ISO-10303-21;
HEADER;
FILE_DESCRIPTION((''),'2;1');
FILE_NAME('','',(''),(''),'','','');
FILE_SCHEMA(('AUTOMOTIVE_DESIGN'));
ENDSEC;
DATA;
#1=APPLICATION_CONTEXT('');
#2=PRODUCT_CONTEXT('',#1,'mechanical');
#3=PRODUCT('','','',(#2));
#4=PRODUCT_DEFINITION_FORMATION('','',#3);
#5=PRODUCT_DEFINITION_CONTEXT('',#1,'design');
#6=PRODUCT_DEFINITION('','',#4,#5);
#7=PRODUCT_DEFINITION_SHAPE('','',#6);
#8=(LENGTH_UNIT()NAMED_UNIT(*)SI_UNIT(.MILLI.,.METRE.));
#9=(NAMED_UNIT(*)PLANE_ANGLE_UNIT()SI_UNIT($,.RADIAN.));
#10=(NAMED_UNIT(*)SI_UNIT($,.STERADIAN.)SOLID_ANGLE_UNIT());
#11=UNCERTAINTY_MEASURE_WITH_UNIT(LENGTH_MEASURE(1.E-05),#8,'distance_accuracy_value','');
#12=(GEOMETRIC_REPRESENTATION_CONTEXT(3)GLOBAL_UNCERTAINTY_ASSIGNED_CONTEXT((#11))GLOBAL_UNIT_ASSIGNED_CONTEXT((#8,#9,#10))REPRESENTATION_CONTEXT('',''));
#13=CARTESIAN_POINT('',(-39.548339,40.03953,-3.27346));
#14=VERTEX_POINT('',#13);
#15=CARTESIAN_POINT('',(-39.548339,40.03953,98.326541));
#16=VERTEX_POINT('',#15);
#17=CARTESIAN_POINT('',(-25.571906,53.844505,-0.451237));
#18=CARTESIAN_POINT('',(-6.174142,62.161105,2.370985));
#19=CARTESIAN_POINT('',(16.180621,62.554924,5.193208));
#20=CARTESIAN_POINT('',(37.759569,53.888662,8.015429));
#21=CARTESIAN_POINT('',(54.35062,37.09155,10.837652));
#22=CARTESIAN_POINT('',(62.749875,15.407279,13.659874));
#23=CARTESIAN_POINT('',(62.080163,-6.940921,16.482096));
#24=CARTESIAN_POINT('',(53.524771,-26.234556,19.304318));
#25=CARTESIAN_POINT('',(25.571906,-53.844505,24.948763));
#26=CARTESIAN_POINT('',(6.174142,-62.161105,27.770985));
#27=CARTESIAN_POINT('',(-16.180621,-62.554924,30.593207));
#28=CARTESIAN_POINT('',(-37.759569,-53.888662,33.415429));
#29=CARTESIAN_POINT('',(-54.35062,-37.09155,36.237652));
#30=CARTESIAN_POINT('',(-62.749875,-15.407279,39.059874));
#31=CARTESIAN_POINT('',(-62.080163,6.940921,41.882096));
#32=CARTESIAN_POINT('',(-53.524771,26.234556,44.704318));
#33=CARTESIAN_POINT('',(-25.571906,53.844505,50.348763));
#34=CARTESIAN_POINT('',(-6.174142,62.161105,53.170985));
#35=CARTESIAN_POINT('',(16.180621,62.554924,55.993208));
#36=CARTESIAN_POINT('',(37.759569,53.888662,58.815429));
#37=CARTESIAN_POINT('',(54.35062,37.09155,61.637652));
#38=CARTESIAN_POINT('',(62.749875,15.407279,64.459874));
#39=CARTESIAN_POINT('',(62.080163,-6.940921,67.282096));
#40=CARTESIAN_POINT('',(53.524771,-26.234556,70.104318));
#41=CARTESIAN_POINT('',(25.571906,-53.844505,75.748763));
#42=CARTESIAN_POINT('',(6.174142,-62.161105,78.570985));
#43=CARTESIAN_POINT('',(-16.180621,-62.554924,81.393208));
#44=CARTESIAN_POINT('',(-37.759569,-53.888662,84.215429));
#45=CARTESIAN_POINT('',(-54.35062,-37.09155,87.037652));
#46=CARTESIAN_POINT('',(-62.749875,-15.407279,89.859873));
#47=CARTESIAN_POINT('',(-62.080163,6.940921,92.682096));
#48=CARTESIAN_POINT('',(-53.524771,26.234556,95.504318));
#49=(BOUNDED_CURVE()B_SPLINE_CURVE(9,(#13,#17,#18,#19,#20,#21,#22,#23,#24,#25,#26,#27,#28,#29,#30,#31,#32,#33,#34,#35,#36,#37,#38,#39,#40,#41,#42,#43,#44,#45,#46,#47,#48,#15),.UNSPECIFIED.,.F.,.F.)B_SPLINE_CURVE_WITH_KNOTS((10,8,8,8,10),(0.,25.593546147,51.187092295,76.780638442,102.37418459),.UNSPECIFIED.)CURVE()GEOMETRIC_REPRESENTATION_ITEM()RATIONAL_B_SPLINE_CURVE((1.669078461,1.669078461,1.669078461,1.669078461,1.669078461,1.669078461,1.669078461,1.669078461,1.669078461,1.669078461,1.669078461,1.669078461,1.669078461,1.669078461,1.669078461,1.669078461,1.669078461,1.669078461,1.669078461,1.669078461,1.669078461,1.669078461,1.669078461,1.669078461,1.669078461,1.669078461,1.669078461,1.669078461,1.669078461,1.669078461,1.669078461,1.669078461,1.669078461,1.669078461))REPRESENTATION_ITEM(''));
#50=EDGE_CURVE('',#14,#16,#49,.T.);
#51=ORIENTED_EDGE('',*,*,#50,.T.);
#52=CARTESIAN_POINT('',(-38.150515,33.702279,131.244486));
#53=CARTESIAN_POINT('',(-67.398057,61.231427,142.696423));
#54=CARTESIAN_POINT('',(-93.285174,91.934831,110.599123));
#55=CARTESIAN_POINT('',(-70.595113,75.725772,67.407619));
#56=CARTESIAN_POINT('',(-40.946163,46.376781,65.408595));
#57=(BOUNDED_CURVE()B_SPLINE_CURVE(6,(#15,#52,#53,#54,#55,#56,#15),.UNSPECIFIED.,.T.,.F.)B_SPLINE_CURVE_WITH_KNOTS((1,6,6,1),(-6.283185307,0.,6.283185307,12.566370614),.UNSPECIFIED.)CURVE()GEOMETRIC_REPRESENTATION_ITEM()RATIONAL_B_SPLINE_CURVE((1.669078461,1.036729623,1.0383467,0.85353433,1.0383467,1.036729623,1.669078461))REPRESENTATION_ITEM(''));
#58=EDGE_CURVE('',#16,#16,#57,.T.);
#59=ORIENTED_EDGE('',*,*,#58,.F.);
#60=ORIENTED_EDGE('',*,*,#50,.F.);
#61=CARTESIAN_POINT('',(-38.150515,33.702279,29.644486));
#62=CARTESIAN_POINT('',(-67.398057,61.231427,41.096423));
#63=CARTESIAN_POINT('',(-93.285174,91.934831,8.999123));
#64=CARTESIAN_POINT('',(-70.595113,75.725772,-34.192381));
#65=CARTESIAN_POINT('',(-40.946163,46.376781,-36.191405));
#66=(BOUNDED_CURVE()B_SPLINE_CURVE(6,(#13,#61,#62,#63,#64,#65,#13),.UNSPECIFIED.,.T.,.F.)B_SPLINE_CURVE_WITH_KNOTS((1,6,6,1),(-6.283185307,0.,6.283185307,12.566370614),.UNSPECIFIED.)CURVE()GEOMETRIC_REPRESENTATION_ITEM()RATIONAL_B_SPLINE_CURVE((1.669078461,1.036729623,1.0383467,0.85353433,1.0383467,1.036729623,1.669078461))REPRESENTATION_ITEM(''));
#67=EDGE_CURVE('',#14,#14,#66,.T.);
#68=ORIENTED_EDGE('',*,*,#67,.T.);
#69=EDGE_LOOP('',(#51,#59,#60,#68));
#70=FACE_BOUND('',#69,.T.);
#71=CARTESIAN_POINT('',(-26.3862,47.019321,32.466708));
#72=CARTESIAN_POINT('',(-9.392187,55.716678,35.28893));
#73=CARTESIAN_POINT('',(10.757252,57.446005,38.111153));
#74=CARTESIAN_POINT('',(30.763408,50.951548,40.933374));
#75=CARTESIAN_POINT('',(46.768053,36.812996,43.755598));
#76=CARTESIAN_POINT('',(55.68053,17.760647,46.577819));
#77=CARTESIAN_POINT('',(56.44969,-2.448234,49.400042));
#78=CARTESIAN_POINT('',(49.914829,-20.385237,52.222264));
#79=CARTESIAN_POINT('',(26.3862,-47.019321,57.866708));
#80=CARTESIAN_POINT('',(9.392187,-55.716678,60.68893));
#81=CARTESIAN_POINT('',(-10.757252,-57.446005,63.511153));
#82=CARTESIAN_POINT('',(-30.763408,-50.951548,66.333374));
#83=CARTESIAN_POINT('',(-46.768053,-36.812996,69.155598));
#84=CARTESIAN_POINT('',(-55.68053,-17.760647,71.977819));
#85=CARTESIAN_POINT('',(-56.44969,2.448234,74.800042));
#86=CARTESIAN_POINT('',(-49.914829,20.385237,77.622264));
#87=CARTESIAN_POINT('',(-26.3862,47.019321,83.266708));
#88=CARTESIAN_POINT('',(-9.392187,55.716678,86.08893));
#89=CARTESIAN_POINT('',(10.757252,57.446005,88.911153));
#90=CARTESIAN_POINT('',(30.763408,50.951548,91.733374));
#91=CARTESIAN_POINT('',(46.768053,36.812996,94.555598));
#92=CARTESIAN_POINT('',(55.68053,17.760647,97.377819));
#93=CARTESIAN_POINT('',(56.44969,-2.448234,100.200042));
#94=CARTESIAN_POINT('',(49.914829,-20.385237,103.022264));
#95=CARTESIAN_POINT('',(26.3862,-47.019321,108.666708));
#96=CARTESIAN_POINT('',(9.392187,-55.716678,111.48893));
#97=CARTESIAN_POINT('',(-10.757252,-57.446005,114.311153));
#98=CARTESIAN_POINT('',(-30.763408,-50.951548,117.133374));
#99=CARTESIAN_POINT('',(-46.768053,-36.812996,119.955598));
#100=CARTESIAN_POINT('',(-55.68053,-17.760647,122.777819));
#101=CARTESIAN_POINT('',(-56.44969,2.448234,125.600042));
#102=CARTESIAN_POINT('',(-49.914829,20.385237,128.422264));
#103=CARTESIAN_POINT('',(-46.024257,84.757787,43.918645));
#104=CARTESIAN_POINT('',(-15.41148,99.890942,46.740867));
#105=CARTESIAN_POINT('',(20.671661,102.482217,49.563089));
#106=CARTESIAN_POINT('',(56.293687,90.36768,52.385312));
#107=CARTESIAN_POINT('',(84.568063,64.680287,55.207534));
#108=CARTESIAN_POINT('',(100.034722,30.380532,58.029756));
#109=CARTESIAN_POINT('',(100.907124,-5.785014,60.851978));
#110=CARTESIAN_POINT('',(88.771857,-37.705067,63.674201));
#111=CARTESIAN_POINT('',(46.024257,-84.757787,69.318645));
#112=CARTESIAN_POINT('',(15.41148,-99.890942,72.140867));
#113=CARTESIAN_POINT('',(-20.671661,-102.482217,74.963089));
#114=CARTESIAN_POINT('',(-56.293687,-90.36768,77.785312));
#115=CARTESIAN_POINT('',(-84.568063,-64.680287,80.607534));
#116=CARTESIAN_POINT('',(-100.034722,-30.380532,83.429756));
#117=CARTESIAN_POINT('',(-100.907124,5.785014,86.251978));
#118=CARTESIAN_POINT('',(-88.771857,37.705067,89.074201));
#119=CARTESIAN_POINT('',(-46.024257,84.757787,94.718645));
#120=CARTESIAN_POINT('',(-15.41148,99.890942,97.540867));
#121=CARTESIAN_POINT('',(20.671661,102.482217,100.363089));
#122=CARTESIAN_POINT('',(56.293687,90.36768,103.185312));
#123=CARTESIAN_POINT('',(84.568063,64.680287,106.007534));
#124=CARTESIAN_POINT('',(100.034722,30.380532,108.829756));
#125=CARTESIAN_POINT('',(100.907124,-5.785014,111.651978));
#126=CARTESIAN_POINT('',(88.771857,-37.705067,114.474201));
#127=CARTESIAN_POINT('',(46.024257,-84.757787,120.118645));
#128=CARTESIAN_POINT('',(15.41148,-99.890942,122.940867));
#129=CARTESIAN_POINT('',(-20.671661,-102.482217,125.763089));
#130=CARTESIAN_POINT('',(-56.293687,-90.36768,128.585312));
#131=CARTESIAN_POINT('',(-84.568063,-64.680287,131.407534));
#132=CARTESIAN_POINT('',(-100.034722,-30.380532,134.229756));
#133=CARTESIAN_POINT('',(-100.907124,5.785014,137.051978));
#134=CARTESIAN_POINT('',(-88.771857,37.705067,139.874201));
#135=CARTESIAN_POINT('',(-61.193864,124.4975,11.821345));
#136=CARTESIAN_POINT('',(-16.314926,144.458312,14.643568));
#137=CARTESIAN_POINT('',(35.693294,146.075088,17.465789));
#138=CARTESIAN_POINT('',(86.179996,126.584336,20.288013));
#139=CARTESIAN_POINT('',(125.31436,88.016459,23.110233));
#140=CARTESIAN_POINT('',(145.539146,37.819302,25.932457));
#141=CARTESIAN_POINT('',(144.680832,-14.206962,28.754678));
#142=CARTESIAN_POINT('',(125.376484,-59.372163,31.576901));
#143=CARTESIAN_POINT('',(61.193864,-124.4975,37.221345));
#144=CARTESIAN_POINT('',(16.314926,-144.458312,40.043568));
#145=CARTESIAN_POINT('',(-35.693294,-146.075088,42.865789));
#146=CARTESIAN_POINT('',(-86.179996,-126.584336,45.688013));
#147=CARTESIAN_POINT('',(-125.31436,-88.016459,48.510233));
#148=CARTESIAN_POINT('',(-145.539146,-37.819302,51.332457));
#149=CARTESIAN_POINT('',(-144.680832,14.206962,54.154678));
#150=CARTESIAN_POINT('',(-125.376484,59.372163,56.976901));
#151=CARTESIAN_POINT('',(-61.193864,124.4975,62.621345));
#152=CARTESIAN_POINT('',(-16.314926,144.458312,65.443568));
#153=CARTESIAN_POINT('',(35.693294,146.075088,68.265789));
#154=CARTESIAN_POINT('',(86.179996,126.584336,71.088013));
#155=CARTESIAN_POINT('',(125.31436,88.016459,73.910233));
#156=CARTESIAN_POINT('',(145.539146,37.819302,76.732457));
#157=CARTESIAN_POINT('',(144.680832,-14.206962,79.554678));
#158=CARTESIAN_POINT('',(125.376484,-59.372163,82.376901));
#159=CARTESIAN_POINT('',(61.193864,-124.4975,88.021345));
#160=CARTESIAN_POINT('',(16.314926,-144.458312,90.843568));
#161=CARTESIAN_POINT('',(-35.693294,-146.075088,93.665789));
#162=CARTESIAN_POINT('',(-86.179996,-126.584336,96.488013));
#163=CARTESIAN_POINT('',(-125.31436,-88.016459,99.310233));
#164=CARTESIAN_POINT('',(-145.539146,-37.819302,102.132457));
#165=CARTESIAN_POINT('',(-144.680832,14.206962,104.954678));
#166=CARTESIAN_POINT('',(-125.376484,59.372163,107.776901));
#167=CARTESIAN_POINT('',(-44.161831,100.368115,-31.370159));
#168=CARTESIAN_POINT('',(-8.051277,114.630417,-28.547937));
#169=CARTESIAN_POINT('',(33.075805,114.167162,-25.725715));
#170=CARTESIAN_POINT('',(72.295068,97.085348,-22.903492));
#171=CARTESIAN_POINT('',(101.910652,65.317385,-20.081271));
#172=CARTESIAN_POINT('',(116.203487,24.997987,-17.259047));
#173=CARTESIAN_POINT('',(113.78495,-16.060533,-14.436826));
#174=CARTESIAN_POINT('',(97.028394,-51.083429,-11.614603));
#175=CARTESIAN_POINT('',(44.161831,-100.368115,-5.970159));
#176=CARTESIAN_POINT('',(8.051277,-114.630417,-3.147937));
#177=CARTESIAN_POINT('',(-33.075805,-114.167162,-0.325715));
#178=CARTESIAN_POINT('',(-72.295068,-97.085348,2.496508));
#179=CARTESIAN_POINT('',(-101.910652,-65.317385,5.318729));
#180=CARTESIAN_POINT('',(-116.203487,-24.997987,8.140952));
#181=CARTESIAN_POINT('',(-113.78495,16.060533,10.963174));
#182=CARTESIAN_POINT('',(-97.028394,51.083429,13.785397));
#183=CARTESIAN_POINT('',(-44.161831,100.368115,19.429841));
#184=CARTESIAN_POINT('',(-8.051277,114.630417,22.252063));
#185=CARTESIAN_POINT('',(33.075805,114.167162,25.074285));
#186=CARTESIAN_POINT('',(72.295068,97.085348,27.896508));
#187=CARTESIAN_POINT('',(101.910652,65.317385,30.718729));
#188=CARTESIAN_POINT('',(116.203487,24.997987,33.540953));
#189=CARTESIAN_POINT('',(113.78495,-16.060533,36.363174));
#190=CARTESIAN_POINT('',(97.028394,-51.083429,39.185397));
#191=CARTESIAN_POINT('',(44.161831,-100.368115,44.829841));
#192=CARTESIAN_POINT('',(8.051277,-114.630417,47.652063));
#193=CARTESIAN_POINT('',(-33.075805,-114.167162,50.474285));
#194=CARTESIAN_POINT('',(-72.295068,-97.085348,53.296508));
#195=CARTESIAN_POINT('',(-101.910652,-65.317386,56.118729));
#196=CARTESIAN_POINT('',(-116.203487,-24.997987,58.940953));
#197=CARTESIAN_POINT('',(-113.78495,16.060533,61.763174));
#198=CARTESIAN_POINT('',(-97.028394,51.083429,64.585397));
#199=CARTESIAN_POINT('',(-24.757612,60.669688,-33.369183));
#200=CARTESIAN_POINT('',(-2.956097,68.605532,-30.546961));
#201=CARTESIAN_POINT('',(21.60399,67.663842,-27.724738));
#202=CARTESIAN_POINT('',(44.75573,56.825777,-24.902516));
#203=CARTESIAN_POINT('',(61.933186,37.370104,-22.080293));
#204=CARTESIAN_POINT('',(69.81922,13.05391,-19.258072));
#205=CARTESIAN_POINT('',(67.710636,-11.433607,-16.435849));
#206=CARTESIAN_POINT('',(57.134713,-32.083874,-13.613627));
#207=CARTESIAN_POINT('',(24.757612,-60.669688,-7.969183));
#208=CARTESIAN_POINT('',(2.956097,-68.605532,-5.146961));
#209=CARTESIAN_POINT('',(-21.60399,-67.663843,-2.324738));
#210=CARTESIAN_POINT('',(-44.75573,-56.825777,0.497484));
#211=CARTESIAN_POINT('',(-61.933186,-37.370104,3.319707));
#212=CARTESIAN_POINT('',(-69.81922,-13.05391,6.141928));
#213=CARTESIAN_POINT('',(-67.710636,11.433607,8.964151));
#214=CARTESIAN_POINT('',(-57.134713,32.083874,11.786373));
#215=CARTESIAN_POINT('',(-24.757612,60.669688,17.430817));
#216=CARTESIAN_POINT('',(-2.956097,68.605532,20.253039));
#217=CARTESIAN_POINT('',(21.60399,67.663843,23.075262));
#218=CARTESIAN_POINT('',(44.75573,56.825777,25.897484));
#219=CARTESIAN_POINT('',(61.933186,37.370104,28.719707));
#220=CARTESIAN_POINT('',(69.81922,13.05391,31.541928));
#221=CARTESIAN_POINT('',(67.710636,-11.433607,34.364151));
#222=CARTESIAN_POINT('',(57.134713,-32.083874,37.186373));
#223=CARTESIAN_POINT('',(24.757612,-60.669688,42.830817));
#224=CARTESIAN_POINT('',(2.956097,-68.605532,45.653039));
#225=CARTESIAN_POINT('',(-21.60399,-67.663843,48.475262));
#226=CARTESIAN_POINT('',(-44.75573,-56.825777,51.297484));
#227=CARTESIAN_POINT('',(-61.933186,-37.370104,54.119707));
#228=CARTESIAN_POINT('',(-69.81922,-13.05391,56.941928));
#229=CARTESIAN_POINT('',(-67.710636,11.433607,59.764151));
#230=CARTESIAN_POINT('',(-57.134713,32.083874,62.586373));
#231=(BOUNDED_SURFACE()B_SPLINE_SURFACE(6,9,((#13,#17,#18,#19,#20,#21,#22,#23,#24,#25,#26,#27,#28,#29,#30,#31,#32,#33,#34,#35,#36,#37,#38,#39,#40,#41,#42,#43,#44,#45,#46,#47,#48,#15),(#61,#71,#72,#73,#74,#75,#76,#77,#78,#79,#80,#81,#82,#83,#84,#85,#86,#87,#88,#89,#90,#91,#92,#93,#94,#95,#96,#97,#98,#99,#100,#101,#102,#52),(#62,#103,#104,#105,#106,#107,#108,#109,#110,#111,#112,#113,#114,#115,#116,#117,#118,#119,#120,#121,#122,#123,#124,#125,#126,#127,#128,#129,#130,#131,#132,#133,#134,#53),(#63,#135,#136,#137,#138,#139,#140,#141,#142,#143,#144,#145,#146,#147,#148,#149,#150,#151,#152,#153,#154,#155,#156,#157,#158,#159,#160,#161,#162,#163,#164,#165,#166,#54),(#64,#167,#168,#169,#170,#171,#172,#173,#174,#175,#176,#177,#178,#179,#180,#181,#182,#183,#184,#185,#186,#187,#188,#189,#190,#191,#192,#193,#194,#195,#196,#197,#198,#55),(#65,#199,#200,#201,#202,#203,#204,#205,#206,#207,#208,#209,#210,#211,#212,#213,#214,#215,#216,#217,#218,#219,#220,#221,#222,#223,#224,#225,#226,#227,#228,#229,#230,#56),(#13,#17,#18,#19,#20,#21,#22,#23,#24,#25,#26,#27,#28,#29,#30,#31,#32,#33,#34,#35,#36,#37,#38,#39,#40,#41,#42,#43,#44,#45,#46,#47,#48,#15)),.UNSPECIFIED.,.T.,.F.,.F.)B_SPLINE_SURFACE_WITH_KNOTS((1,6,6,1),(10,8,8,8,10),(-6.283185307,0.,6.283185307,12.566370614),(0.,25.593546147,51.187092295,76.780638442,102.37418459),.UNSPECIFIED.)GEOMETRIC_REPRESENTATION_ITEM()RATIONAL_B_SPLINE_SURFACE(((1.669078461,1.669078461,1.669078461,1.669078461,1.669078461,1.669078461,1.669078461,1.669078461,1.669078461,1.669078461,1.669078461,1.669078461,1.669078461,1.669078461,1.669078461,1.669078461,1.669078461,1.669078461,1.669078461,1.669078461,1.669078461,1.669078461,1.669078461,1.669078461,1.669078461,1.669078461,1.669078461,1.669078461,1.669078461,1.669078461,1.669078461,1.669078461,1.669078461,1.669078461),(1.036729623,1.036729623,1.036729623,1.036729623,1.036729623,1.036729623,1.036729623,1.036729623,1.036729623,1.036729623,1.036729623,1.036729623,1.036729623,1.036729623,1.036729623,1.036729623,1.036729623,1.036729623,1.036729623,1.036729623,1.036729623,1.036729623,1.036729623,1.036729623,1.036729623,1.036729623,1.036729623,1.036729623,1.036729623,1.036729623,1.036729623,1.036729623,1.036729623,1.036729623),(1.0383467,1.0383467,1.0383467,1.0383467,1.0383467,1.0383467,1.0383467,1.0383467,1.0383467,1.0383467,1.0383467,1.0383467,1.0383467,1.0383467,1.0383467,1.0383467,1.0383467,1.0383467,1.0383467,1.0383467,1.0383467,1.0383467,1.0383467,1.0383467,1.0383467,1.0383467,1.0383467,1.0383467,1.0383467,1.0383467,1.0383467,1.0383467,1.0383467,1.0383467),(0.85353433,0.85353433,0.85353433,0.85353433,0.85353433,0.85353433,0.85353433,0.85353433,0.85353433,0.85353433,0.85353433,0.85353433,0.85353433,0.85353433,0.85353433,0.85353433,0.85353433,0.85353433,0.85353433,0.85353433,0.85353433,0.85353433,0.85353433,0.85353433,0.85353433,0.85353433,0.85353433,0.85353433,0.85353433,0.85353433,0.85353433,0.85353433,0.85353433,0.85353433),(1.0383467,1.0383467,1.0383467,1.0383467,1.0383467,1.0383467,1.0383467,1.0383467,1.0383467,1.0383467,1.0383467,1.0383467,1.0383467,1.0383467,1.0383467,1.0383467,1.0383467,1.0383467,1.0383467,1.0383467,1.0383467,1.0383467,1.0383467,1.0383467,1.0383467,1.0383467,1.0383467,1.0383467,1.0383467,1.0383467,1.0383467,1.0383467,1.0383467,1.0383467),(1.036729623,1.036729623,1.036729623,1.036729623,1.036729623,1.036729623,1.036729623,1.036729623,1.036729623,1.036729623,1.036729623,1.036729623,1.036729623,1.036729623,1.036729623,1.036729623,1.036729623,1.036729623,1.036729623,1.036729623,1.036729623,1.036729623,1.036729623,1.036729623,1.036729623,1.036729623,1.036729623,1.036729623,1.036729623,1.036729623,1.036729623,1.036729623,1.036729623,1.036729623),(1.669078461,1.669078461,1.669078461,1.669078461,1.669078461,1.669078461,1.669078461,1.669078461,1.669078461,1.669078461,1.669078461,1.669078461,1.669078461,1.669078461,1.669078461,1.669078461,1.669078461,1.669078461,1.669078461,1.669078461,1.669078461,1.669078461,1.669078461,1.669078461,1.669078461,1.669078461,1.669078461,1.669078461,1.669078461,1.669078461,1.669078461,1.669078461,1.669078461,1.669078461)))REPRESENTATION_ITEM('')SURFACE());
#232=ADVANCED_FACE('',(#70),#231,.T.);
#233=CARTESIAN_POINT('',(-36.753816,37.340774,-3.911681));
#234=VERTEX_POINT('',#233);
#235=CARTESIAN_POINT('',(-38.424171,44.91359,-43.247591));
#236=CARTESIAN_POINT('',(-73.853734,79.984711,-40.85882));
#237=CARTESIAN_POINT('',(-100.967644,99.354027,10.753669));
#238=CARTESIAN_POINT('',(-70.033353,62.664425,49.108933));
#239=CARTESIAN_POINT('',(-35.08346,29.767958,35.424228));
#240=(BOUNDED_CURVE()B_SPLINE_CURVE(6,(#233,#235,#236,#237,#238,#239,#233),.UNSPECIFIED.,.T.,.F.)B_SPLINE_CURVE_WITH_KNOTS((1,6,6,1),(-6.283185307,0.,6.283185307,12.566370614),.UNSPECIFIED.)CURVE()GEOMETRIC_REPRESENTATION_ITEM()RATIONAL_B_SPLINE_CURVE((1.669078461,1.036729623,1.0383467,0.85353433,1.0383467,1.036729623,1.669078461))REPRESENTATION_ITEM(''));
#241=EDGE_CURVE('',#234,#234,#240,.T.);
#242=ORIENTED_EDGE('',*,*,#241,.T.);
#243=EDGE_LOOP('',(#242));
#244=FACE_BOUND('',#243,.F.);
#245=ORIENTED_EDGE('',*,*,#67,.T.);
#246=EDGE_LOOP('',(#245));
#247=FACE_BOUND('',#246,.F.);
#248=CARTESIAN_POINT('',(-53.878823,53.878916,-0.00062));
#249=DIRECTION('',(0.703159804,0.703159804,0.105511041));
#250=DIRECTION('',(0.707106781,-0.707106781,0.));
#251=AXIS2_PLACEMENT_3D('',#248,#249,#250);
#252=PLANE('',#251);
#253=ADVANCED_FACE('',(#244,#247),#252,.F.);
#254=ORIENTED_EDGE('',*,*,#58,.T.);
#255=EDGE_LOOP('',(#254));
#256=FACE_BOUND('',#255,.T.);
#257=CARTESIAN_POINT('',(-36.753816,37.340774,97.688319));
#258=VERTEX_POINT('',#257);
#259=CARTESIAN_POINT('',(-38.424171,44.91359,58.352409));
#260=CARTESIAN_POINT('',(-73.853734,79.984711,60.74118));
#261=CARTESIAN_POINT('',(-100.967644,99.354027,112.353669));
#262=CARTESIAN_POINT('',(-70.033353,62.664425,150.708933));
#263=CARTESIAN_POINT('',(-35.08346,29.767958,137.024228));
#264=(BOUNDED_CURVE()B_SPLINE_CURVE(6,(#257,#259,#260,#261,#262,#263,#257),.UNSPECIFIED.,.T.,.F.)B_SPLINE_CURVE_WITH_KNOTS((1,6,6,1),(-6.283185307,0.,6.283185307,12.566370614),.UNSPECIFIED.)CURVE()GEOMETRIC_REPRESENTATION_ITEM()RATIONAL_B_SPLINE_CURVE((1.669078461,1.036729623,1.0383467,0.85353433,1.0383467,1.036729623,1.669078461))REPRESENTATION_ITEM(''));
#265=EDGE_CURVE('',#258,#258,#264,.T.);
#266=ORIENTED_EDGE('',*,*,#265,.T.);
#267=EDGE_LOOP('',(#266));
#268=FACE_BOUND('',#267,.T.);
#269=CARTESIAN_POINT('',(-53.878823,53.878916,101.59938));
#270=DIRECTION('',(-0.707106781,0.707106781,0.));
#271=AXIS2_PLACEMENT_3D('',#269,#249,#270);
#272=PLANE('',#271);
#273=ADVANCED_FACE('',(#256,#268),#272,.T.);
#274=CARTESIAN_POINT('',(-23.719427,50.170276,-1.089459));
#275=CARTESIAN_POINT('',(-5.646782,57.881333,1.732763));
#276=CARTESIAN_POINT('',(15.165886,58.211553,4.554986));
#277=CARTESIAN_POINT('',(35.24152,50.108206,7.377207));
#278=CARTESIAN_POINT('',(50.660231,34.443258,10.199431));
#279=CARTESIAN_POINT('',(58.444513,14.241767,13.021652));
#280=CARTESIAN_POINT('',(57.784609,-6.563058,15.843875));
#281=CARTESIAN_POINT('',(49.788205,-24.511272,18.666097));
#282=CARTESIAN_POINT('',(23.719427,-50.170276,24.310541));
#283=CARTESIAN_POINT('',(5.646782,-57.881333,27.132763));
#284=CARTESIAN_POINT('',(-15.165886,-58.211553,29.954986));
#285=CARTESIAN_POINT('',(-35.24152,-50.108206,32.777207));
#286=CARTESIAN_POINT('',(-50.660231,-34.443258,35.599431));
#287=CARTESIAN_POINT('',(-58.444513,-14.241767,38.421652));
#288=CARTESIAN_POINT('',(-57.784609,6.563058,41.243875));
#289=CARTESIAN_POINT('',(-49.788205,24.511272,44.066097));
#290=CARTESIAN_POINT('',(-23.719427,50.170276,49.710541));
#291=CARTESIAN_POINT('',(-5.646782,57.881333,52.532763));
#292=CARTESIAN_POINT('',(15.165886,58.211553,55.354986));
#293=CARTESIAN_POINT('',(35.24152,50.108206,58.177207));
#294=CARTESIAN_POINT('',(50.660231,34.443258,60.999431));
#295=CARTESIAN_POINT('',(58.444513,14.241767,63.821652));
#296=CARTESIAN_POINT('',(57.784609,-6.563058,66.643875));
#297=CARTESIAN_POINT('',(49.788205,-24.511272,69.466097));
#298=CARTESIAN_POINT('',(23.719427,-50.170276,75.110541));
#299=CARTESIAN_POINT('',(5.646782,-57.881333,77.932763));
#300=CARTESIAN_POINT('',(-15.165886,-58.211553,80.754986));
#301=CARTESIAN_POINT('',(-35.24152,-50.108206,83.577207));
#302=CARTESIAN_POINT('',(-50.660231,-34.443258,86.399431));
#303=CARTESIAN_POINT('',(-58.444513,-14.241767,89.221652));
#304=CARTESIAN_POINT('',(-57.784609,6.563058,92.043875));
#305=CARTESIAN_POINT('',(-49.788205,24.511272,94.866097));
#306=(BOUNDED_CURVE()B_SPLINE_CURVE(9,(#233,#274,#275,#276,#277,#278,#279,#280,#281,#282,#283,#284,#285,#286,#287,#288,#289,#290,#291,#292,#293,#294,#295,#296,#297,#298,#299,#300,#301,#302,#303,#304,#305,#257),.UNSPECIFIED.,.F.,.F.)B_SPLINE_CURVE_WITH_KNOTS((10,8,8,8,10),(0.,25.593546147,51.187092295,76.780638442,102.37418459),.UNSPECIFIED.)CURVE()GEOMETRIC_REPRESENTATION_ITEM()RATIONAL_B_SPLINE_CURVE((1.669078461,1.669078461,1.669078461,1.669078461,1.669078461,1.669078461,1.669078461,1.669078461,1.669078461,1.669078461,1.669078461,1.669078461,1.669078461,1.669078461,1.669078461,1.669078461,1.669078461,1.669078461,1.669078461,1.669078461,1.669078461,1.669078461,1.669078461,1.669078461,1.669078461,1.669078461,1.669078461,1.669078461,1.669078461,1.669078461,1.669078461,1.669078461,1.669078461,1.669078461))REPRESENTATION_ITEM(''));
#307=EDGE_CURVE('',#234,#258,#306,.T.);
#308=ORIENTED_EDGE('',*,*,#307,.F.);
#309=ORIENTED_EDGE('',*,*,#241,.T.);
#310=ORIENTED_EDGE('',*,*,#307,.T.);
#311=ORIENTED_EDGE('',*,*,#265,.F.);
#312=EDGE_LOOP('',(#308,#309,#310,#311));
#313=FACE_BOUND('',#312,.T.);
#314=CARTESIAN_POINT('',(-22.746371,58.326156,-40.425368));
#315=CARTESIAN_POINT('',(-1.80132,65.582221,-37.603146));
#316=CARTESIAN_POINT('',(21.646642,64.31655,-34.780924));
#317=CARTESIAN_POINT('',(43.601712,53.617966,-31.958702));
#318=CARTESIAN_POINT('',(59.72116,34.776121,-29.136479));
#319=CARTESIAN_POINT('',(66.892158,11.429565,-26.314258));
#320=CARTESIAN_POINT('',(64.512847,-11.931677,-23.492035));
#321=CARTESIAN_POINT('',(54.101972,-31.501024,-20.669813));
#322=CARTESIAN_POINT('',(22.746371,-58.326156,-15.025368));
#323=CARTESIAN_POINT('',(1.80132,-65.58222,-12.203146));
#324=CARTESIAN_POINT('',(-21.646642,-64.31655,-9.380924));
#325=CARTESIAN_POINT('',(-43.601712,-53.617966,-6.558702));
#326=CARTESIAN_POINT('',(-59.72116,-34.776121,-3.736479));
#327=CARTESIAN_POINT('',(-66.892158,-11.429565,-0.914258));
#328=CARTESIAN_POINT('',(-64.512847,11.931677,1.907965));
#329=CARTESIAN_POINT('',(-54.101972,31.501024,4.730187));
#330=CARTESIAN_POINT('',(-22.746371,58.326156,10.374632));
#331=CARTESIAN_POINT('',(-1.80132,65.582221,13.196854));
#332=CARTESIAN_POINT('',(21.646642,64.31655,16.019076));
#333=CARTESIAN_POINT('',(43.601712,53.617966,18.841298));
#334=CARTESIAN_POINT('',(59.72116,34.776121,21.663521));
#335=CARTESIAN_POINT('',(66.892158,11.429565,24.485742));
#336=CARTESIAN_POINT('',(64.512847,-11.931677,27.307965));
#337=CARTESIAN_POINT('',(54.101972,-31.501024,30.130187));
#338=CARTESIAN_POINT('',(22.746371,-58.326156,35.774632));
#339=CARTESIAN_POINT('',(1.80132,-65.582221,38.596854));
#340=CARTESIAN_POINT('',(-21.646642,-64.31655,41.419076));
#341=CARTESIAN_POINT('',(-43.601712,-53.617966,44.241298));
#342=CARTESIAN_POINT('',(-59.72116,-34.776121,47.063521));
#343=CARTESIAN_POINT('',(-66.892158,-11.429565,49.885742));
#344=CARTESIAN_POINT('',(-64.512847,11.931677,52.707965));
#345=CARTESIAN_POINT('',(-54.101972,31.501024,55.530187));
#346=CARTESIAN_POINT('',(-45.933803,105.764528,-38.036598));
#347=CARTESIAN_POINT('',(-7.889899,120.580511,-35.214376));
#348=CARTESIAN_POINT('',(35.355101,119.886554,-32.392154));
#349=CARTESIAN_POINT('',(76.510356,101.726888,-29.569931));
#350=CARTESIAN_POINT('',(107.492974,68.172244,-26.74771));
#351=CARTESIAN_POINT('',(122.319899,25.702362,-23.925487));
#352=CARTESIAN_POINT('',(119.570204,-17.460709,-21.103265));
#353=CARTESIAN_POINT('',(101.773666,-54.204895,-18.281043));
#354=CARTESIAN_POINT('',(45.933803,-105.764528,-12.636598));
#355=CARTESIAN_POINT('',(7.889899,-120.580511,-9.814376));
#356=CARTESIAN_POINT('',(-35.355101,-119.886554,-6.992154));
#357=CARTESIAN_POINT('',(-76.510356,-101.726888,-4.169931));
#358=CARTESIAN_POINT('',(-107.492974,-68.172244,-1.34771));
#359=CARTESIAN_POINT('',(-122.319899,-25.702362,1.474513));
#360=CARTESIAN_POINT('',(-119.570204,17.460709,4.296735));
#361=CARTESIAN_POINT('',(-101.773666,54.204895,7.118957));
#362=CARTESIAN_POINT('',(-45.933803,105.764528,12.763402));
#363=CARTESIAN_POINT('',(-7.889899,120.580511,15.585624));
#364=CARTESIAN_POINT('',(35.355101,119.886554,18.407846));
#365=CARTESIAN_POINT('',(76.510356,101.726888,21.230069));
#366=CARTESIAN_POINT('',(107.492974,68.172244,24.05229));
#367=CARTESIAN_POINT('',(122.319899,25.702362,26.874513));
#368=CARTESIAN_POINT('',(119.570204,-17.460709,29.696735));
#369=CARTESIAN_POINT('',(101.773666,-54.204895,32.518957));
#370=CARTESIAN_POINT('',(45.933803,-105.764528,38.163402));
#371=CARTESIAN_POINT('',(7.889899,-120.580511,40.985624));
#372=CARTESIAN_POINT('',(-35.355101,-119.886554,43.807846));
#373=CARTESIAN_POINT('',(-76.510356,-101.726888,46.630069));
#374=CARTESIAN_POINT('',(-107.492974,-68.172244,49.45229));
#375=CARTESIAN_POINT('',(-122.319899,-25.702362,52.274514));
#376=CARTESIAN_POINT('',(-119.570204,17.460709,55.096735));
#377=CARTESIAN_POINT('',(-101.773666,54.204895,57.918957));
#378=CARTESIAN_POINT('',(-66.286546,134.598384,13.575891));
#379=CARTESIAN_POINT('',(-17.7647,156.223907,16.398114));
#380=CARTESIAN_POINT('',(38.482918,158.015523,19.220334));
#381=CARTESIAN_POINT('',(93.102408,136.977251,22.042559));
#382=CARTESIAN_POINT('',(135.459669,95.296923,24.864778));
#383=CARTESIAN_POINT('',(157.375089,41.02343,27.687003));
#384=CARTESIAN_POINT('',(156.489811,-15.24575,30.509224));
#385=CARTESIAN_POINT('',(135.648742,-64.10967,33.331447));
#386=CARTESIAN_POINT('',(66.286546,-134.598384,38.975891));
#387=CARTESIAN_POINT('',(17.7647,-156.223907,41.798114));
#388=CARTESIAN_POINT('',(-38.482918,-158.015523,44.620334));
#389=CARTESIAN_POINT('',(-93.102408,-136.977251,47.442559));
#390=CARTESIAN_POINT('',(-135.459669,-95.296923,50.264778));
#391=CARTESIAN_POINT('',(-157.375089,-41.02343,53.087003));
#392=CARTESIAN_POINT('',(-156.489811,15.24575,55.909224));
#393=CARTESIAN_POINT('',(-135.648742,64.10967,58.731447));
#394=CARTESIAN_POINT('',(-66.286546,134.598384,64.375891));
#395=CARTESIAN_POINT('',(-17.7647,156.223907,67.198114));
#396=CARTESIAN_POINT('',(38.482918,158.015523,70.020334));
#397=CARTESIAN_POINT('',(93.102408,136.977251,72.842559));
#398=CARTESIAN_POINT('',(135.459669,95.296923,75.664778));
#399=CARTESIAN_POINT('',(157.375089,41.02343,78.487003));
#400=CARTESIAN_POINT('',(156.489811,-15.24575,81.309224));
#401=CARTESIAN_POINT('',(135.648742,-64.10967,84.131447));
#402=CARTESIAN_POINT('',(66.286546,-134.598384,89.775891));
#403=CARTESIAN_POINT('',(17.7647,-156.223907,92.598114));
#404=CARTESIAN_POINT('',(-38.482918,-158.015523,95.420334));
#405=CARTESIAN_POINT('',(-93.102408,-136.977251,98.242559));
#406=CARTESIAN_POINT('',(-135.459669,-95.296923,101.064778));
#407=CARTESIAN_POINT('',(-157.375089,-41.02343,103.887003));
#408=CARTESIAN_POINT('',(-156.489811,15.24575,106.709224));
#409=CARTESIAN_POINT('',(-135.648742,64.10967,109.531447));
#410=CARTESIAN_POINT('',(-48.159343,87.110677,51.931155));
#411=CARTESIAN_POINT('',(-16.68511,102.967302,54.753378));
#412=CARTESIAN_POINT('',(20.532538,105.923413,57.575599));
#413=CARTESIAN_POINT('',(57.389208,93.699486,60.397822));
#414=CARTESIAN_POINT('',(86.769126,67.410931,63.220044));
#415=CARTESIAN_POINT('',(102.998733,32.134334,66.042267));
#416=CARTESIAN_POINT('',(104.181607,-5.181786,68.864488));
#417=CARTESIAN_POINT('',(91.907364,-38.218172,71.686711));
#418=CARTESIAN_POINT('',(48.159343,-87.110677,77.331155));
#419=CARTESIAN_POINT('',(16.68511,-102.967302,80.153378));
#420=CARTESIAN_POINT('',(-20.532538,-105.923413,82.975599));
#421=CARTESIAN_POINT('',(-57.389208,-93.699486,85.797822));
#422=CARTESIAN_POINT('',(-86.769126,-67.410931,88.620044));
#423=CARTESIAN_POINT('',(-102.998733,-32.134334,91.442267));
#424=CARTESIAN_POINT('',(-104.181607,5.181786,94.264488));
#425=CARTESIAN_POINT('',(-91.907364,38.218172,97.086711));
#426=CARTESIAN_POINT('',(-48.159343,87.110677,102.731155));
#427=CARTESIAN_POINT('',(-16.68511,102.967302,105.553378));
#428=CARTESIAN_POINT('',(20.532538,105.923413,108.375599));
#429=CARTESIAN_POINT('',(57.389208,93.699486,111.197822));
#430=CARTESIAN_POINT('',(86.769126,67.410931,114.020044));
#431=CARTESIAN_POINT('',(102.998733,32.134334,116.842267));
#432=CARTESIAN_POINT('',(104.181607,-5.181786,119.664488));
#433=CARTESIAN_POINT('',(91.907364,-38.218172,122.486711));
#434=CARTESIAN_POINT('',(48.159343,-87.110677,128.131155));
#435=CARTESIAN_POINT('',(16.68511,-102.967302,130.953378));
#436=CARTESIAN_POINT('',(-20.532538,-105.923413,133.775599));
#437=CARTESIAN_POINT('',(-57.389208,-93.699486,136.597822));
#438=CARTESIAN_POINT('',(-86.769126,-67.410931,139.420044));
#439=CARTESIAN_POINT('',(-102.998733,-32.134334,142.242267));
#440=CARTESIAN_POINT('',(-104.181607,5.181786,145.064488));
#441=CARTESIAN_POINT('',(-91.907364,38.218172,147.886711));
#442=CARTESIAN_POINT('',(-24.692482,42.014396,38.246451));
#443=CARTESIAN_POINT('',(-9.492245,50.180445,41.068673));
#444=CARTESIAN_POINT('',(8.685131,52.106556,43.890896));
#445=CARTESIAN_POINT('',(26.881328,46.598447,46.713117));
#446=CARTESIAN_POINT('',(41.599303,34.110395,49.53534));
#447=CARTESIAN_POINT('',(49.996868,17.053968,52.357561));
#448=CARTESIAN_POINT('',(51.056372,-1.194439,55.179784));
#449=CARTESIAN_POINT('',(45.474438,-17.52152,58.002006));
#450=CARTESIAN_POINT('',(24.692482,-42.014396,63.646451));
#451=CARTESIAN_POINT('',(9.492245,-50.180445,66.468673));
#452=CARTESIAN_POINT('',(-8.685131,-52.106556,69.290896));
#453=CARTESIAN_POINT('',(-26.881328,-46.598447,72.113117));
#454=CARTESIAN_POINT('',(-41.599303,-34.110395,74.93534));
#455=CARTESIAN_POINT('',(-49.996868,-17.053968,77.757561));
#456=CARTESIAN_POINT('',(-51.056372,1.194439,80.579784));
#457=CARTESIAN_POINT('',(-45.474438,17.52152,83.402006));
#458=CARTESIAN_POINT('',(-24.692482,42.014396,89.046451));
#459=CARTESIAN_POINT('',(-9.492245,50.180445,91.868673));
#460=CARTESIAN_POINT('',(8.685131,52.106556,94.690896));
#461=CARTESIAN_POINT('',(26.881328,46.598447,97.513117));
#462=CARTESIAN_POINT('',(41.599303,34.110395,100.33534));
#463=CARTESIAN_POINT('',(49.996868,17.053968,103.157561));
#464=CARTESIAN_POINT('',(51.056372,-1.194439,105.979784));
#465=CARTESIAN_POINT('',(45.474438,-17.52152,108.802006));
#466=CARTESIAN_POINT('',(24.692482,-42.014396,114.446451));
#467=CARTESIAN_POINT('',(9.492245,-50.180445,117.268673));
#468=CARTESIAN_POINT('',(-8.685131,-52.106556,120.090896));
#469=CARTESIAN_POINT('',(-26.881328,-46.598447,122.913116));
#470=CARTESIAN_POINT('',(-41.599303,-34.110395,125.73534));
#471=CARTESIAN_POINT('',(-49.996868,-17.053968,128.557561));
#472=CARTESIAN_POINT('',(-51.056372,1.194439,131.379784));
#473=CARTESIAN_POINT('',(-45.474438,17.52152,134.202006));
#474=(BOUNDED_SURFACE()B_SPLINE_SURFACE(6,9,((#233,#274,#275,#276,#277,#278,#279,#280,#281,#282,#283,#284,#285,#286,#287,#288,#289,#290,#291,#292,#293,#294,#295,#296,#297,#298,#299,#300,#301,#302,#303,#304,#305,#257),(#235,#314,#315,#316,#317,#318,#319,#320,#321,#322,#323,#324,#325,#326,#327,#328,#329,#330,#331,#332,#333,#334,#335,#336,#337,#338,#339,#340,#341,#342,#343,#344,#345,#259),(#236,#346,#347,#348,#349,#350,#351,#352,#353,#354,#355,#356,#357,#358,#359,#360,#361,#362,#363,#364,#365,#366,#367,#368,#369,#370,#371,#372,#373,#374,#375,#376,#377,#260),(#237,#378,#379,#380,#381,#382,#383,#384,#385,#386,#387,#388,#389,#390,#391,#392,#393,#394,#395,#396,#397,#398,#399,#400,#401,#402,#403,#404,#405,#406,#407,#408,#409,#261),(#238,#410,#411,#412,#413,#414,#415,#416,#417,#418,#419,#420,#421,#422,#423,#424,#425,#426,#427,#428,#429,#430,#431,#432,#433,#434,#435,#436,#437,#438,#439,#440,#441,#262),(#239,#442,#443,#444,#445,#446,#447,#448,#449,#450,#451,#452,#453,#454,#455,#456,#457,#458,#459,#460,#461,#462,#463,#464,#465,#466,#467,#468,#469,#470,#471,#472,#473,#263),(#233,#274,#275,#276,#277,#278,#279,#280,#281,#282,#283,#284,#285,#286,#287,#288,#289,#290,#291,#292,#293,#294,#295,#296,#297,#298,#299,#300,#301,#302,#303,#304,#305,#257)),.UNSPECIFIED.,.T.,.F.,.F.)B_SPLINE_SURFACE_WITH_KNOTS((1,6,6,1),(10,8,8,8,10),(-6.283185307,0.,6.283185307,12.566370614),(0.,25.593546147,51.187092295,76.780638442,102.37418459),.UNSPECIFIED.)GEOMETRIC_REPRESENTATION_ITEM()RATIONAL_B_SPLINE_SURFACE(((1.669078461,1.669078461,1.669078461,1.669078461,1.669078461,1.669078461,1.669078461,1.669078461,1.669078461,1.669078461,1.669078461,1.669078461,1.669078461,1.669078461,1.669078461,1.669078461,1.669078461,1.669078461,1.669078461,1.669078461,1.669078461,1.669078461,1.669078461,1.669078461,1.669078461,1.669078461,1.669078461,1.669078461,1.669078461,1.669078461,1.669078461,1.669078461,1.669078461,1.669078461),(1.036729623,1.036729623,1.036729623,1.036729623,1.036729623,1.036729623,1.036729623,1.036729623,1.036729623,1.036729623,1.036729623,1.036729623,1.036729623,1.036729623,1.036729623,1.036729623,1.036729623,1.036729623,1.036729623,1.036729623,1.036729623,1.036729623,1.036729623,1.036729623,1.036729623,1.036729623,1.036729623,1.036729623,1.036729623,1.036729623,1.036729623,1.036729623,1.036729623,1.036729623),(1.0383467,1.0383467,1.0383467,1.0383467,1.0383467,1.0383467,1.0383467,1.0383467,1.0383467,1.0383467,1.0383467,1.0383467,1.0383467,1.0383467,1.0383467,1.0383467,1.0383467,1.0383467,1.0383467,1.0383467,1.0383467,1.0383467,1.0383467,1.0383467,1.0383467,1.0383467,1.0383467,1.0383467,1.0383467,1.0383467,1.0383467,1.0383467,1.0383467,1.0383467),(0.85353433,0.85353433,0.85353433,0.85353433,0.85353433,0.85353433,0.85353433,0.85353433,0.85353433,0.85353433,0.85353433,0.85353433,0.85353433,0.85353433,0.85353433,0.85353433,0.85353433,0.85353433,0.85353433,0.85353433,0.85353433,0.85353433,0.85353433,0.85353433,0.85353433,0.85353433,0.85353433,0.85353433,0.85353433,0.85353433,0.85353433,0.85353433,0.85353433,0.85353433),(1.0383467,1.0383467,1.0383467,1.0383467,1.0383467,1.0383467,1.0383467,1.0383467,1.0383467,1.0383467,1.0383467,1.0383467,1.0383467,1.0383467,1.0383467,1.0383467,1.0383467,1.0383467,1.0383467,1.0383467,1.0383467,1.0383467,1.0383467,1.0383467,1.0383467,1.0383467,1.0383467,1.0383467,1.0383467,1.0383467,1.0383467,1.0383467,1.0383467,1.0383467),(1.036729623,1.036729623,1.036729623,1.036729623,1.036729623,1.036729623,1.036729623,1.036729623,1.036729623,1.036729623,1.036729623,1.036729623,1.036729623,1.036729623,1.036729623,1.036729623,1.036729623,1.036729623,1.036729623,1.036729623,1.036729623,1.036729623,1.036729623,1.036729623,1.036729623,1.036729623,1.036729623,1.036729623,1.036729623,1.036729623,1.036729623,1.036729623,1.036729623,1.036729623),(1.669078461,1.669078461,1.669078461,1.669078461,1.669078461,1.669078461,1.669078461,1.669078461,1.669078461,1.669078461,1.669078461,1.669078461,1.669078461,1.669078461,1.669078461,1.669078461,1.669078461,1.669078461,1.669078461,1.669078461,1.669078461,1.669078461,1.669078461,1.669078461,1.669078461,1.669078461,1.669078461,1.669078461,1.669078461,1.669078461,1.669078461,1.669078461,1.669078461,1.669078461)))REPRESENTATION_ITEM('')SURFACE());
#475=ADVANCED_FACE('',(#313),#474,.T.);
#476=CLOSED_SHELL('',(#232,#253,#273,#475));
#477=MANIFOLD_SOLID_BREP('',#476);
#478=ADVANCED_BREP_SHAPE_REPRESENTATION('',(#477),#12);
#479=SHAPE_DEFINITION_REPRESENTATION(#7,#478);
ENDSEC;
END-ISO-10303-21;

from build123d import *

# Parameters (mm, degrees)
SWEEP1_PITCH       = 50.8
SWEEP1_HEIGHT      = 101.6
SWEEP1_RADIUS      = 76.2
SWEEP1_START_ANGLE = 135
SKETCH3_R          = 24.13
SKETCH3_R_2        = 20.193


with BuildPart() as part:
    # Sweep1: sweep along a helix
    with BuildLine() as sweep1_path:
        add(Helix(SWEEP1_PITCH, SWEEP1_HEIGHT, SWEEP1_RADIUS, center=(0, 0, 0), direction=(0, 0, 1), lefthand=True, mode=Mode.PRIVATE).rotate(Axis((0, 0, 0), (0, 0, 1)), SWEEP1_START_ANGLE))
    # Sketch3 → Sweep1 (sweep)
    with BuildSketch(Plane(origin=(-53.881536726, 53.881536726, 0), x_dir=(0.7098102339396402, -0.6854853936630503, -0.1621086267573884), z_dir=(0.7031598041267358, 0.7031598041267426, 0.10551104075352251))):
        Circle(SKETCH3_R)
        Circle(SKETCH3_R_2, mode=Mode.SUBTRACT)
    sweep(path=sweep1_path.line, is_frenet=True)


solid = part.part
